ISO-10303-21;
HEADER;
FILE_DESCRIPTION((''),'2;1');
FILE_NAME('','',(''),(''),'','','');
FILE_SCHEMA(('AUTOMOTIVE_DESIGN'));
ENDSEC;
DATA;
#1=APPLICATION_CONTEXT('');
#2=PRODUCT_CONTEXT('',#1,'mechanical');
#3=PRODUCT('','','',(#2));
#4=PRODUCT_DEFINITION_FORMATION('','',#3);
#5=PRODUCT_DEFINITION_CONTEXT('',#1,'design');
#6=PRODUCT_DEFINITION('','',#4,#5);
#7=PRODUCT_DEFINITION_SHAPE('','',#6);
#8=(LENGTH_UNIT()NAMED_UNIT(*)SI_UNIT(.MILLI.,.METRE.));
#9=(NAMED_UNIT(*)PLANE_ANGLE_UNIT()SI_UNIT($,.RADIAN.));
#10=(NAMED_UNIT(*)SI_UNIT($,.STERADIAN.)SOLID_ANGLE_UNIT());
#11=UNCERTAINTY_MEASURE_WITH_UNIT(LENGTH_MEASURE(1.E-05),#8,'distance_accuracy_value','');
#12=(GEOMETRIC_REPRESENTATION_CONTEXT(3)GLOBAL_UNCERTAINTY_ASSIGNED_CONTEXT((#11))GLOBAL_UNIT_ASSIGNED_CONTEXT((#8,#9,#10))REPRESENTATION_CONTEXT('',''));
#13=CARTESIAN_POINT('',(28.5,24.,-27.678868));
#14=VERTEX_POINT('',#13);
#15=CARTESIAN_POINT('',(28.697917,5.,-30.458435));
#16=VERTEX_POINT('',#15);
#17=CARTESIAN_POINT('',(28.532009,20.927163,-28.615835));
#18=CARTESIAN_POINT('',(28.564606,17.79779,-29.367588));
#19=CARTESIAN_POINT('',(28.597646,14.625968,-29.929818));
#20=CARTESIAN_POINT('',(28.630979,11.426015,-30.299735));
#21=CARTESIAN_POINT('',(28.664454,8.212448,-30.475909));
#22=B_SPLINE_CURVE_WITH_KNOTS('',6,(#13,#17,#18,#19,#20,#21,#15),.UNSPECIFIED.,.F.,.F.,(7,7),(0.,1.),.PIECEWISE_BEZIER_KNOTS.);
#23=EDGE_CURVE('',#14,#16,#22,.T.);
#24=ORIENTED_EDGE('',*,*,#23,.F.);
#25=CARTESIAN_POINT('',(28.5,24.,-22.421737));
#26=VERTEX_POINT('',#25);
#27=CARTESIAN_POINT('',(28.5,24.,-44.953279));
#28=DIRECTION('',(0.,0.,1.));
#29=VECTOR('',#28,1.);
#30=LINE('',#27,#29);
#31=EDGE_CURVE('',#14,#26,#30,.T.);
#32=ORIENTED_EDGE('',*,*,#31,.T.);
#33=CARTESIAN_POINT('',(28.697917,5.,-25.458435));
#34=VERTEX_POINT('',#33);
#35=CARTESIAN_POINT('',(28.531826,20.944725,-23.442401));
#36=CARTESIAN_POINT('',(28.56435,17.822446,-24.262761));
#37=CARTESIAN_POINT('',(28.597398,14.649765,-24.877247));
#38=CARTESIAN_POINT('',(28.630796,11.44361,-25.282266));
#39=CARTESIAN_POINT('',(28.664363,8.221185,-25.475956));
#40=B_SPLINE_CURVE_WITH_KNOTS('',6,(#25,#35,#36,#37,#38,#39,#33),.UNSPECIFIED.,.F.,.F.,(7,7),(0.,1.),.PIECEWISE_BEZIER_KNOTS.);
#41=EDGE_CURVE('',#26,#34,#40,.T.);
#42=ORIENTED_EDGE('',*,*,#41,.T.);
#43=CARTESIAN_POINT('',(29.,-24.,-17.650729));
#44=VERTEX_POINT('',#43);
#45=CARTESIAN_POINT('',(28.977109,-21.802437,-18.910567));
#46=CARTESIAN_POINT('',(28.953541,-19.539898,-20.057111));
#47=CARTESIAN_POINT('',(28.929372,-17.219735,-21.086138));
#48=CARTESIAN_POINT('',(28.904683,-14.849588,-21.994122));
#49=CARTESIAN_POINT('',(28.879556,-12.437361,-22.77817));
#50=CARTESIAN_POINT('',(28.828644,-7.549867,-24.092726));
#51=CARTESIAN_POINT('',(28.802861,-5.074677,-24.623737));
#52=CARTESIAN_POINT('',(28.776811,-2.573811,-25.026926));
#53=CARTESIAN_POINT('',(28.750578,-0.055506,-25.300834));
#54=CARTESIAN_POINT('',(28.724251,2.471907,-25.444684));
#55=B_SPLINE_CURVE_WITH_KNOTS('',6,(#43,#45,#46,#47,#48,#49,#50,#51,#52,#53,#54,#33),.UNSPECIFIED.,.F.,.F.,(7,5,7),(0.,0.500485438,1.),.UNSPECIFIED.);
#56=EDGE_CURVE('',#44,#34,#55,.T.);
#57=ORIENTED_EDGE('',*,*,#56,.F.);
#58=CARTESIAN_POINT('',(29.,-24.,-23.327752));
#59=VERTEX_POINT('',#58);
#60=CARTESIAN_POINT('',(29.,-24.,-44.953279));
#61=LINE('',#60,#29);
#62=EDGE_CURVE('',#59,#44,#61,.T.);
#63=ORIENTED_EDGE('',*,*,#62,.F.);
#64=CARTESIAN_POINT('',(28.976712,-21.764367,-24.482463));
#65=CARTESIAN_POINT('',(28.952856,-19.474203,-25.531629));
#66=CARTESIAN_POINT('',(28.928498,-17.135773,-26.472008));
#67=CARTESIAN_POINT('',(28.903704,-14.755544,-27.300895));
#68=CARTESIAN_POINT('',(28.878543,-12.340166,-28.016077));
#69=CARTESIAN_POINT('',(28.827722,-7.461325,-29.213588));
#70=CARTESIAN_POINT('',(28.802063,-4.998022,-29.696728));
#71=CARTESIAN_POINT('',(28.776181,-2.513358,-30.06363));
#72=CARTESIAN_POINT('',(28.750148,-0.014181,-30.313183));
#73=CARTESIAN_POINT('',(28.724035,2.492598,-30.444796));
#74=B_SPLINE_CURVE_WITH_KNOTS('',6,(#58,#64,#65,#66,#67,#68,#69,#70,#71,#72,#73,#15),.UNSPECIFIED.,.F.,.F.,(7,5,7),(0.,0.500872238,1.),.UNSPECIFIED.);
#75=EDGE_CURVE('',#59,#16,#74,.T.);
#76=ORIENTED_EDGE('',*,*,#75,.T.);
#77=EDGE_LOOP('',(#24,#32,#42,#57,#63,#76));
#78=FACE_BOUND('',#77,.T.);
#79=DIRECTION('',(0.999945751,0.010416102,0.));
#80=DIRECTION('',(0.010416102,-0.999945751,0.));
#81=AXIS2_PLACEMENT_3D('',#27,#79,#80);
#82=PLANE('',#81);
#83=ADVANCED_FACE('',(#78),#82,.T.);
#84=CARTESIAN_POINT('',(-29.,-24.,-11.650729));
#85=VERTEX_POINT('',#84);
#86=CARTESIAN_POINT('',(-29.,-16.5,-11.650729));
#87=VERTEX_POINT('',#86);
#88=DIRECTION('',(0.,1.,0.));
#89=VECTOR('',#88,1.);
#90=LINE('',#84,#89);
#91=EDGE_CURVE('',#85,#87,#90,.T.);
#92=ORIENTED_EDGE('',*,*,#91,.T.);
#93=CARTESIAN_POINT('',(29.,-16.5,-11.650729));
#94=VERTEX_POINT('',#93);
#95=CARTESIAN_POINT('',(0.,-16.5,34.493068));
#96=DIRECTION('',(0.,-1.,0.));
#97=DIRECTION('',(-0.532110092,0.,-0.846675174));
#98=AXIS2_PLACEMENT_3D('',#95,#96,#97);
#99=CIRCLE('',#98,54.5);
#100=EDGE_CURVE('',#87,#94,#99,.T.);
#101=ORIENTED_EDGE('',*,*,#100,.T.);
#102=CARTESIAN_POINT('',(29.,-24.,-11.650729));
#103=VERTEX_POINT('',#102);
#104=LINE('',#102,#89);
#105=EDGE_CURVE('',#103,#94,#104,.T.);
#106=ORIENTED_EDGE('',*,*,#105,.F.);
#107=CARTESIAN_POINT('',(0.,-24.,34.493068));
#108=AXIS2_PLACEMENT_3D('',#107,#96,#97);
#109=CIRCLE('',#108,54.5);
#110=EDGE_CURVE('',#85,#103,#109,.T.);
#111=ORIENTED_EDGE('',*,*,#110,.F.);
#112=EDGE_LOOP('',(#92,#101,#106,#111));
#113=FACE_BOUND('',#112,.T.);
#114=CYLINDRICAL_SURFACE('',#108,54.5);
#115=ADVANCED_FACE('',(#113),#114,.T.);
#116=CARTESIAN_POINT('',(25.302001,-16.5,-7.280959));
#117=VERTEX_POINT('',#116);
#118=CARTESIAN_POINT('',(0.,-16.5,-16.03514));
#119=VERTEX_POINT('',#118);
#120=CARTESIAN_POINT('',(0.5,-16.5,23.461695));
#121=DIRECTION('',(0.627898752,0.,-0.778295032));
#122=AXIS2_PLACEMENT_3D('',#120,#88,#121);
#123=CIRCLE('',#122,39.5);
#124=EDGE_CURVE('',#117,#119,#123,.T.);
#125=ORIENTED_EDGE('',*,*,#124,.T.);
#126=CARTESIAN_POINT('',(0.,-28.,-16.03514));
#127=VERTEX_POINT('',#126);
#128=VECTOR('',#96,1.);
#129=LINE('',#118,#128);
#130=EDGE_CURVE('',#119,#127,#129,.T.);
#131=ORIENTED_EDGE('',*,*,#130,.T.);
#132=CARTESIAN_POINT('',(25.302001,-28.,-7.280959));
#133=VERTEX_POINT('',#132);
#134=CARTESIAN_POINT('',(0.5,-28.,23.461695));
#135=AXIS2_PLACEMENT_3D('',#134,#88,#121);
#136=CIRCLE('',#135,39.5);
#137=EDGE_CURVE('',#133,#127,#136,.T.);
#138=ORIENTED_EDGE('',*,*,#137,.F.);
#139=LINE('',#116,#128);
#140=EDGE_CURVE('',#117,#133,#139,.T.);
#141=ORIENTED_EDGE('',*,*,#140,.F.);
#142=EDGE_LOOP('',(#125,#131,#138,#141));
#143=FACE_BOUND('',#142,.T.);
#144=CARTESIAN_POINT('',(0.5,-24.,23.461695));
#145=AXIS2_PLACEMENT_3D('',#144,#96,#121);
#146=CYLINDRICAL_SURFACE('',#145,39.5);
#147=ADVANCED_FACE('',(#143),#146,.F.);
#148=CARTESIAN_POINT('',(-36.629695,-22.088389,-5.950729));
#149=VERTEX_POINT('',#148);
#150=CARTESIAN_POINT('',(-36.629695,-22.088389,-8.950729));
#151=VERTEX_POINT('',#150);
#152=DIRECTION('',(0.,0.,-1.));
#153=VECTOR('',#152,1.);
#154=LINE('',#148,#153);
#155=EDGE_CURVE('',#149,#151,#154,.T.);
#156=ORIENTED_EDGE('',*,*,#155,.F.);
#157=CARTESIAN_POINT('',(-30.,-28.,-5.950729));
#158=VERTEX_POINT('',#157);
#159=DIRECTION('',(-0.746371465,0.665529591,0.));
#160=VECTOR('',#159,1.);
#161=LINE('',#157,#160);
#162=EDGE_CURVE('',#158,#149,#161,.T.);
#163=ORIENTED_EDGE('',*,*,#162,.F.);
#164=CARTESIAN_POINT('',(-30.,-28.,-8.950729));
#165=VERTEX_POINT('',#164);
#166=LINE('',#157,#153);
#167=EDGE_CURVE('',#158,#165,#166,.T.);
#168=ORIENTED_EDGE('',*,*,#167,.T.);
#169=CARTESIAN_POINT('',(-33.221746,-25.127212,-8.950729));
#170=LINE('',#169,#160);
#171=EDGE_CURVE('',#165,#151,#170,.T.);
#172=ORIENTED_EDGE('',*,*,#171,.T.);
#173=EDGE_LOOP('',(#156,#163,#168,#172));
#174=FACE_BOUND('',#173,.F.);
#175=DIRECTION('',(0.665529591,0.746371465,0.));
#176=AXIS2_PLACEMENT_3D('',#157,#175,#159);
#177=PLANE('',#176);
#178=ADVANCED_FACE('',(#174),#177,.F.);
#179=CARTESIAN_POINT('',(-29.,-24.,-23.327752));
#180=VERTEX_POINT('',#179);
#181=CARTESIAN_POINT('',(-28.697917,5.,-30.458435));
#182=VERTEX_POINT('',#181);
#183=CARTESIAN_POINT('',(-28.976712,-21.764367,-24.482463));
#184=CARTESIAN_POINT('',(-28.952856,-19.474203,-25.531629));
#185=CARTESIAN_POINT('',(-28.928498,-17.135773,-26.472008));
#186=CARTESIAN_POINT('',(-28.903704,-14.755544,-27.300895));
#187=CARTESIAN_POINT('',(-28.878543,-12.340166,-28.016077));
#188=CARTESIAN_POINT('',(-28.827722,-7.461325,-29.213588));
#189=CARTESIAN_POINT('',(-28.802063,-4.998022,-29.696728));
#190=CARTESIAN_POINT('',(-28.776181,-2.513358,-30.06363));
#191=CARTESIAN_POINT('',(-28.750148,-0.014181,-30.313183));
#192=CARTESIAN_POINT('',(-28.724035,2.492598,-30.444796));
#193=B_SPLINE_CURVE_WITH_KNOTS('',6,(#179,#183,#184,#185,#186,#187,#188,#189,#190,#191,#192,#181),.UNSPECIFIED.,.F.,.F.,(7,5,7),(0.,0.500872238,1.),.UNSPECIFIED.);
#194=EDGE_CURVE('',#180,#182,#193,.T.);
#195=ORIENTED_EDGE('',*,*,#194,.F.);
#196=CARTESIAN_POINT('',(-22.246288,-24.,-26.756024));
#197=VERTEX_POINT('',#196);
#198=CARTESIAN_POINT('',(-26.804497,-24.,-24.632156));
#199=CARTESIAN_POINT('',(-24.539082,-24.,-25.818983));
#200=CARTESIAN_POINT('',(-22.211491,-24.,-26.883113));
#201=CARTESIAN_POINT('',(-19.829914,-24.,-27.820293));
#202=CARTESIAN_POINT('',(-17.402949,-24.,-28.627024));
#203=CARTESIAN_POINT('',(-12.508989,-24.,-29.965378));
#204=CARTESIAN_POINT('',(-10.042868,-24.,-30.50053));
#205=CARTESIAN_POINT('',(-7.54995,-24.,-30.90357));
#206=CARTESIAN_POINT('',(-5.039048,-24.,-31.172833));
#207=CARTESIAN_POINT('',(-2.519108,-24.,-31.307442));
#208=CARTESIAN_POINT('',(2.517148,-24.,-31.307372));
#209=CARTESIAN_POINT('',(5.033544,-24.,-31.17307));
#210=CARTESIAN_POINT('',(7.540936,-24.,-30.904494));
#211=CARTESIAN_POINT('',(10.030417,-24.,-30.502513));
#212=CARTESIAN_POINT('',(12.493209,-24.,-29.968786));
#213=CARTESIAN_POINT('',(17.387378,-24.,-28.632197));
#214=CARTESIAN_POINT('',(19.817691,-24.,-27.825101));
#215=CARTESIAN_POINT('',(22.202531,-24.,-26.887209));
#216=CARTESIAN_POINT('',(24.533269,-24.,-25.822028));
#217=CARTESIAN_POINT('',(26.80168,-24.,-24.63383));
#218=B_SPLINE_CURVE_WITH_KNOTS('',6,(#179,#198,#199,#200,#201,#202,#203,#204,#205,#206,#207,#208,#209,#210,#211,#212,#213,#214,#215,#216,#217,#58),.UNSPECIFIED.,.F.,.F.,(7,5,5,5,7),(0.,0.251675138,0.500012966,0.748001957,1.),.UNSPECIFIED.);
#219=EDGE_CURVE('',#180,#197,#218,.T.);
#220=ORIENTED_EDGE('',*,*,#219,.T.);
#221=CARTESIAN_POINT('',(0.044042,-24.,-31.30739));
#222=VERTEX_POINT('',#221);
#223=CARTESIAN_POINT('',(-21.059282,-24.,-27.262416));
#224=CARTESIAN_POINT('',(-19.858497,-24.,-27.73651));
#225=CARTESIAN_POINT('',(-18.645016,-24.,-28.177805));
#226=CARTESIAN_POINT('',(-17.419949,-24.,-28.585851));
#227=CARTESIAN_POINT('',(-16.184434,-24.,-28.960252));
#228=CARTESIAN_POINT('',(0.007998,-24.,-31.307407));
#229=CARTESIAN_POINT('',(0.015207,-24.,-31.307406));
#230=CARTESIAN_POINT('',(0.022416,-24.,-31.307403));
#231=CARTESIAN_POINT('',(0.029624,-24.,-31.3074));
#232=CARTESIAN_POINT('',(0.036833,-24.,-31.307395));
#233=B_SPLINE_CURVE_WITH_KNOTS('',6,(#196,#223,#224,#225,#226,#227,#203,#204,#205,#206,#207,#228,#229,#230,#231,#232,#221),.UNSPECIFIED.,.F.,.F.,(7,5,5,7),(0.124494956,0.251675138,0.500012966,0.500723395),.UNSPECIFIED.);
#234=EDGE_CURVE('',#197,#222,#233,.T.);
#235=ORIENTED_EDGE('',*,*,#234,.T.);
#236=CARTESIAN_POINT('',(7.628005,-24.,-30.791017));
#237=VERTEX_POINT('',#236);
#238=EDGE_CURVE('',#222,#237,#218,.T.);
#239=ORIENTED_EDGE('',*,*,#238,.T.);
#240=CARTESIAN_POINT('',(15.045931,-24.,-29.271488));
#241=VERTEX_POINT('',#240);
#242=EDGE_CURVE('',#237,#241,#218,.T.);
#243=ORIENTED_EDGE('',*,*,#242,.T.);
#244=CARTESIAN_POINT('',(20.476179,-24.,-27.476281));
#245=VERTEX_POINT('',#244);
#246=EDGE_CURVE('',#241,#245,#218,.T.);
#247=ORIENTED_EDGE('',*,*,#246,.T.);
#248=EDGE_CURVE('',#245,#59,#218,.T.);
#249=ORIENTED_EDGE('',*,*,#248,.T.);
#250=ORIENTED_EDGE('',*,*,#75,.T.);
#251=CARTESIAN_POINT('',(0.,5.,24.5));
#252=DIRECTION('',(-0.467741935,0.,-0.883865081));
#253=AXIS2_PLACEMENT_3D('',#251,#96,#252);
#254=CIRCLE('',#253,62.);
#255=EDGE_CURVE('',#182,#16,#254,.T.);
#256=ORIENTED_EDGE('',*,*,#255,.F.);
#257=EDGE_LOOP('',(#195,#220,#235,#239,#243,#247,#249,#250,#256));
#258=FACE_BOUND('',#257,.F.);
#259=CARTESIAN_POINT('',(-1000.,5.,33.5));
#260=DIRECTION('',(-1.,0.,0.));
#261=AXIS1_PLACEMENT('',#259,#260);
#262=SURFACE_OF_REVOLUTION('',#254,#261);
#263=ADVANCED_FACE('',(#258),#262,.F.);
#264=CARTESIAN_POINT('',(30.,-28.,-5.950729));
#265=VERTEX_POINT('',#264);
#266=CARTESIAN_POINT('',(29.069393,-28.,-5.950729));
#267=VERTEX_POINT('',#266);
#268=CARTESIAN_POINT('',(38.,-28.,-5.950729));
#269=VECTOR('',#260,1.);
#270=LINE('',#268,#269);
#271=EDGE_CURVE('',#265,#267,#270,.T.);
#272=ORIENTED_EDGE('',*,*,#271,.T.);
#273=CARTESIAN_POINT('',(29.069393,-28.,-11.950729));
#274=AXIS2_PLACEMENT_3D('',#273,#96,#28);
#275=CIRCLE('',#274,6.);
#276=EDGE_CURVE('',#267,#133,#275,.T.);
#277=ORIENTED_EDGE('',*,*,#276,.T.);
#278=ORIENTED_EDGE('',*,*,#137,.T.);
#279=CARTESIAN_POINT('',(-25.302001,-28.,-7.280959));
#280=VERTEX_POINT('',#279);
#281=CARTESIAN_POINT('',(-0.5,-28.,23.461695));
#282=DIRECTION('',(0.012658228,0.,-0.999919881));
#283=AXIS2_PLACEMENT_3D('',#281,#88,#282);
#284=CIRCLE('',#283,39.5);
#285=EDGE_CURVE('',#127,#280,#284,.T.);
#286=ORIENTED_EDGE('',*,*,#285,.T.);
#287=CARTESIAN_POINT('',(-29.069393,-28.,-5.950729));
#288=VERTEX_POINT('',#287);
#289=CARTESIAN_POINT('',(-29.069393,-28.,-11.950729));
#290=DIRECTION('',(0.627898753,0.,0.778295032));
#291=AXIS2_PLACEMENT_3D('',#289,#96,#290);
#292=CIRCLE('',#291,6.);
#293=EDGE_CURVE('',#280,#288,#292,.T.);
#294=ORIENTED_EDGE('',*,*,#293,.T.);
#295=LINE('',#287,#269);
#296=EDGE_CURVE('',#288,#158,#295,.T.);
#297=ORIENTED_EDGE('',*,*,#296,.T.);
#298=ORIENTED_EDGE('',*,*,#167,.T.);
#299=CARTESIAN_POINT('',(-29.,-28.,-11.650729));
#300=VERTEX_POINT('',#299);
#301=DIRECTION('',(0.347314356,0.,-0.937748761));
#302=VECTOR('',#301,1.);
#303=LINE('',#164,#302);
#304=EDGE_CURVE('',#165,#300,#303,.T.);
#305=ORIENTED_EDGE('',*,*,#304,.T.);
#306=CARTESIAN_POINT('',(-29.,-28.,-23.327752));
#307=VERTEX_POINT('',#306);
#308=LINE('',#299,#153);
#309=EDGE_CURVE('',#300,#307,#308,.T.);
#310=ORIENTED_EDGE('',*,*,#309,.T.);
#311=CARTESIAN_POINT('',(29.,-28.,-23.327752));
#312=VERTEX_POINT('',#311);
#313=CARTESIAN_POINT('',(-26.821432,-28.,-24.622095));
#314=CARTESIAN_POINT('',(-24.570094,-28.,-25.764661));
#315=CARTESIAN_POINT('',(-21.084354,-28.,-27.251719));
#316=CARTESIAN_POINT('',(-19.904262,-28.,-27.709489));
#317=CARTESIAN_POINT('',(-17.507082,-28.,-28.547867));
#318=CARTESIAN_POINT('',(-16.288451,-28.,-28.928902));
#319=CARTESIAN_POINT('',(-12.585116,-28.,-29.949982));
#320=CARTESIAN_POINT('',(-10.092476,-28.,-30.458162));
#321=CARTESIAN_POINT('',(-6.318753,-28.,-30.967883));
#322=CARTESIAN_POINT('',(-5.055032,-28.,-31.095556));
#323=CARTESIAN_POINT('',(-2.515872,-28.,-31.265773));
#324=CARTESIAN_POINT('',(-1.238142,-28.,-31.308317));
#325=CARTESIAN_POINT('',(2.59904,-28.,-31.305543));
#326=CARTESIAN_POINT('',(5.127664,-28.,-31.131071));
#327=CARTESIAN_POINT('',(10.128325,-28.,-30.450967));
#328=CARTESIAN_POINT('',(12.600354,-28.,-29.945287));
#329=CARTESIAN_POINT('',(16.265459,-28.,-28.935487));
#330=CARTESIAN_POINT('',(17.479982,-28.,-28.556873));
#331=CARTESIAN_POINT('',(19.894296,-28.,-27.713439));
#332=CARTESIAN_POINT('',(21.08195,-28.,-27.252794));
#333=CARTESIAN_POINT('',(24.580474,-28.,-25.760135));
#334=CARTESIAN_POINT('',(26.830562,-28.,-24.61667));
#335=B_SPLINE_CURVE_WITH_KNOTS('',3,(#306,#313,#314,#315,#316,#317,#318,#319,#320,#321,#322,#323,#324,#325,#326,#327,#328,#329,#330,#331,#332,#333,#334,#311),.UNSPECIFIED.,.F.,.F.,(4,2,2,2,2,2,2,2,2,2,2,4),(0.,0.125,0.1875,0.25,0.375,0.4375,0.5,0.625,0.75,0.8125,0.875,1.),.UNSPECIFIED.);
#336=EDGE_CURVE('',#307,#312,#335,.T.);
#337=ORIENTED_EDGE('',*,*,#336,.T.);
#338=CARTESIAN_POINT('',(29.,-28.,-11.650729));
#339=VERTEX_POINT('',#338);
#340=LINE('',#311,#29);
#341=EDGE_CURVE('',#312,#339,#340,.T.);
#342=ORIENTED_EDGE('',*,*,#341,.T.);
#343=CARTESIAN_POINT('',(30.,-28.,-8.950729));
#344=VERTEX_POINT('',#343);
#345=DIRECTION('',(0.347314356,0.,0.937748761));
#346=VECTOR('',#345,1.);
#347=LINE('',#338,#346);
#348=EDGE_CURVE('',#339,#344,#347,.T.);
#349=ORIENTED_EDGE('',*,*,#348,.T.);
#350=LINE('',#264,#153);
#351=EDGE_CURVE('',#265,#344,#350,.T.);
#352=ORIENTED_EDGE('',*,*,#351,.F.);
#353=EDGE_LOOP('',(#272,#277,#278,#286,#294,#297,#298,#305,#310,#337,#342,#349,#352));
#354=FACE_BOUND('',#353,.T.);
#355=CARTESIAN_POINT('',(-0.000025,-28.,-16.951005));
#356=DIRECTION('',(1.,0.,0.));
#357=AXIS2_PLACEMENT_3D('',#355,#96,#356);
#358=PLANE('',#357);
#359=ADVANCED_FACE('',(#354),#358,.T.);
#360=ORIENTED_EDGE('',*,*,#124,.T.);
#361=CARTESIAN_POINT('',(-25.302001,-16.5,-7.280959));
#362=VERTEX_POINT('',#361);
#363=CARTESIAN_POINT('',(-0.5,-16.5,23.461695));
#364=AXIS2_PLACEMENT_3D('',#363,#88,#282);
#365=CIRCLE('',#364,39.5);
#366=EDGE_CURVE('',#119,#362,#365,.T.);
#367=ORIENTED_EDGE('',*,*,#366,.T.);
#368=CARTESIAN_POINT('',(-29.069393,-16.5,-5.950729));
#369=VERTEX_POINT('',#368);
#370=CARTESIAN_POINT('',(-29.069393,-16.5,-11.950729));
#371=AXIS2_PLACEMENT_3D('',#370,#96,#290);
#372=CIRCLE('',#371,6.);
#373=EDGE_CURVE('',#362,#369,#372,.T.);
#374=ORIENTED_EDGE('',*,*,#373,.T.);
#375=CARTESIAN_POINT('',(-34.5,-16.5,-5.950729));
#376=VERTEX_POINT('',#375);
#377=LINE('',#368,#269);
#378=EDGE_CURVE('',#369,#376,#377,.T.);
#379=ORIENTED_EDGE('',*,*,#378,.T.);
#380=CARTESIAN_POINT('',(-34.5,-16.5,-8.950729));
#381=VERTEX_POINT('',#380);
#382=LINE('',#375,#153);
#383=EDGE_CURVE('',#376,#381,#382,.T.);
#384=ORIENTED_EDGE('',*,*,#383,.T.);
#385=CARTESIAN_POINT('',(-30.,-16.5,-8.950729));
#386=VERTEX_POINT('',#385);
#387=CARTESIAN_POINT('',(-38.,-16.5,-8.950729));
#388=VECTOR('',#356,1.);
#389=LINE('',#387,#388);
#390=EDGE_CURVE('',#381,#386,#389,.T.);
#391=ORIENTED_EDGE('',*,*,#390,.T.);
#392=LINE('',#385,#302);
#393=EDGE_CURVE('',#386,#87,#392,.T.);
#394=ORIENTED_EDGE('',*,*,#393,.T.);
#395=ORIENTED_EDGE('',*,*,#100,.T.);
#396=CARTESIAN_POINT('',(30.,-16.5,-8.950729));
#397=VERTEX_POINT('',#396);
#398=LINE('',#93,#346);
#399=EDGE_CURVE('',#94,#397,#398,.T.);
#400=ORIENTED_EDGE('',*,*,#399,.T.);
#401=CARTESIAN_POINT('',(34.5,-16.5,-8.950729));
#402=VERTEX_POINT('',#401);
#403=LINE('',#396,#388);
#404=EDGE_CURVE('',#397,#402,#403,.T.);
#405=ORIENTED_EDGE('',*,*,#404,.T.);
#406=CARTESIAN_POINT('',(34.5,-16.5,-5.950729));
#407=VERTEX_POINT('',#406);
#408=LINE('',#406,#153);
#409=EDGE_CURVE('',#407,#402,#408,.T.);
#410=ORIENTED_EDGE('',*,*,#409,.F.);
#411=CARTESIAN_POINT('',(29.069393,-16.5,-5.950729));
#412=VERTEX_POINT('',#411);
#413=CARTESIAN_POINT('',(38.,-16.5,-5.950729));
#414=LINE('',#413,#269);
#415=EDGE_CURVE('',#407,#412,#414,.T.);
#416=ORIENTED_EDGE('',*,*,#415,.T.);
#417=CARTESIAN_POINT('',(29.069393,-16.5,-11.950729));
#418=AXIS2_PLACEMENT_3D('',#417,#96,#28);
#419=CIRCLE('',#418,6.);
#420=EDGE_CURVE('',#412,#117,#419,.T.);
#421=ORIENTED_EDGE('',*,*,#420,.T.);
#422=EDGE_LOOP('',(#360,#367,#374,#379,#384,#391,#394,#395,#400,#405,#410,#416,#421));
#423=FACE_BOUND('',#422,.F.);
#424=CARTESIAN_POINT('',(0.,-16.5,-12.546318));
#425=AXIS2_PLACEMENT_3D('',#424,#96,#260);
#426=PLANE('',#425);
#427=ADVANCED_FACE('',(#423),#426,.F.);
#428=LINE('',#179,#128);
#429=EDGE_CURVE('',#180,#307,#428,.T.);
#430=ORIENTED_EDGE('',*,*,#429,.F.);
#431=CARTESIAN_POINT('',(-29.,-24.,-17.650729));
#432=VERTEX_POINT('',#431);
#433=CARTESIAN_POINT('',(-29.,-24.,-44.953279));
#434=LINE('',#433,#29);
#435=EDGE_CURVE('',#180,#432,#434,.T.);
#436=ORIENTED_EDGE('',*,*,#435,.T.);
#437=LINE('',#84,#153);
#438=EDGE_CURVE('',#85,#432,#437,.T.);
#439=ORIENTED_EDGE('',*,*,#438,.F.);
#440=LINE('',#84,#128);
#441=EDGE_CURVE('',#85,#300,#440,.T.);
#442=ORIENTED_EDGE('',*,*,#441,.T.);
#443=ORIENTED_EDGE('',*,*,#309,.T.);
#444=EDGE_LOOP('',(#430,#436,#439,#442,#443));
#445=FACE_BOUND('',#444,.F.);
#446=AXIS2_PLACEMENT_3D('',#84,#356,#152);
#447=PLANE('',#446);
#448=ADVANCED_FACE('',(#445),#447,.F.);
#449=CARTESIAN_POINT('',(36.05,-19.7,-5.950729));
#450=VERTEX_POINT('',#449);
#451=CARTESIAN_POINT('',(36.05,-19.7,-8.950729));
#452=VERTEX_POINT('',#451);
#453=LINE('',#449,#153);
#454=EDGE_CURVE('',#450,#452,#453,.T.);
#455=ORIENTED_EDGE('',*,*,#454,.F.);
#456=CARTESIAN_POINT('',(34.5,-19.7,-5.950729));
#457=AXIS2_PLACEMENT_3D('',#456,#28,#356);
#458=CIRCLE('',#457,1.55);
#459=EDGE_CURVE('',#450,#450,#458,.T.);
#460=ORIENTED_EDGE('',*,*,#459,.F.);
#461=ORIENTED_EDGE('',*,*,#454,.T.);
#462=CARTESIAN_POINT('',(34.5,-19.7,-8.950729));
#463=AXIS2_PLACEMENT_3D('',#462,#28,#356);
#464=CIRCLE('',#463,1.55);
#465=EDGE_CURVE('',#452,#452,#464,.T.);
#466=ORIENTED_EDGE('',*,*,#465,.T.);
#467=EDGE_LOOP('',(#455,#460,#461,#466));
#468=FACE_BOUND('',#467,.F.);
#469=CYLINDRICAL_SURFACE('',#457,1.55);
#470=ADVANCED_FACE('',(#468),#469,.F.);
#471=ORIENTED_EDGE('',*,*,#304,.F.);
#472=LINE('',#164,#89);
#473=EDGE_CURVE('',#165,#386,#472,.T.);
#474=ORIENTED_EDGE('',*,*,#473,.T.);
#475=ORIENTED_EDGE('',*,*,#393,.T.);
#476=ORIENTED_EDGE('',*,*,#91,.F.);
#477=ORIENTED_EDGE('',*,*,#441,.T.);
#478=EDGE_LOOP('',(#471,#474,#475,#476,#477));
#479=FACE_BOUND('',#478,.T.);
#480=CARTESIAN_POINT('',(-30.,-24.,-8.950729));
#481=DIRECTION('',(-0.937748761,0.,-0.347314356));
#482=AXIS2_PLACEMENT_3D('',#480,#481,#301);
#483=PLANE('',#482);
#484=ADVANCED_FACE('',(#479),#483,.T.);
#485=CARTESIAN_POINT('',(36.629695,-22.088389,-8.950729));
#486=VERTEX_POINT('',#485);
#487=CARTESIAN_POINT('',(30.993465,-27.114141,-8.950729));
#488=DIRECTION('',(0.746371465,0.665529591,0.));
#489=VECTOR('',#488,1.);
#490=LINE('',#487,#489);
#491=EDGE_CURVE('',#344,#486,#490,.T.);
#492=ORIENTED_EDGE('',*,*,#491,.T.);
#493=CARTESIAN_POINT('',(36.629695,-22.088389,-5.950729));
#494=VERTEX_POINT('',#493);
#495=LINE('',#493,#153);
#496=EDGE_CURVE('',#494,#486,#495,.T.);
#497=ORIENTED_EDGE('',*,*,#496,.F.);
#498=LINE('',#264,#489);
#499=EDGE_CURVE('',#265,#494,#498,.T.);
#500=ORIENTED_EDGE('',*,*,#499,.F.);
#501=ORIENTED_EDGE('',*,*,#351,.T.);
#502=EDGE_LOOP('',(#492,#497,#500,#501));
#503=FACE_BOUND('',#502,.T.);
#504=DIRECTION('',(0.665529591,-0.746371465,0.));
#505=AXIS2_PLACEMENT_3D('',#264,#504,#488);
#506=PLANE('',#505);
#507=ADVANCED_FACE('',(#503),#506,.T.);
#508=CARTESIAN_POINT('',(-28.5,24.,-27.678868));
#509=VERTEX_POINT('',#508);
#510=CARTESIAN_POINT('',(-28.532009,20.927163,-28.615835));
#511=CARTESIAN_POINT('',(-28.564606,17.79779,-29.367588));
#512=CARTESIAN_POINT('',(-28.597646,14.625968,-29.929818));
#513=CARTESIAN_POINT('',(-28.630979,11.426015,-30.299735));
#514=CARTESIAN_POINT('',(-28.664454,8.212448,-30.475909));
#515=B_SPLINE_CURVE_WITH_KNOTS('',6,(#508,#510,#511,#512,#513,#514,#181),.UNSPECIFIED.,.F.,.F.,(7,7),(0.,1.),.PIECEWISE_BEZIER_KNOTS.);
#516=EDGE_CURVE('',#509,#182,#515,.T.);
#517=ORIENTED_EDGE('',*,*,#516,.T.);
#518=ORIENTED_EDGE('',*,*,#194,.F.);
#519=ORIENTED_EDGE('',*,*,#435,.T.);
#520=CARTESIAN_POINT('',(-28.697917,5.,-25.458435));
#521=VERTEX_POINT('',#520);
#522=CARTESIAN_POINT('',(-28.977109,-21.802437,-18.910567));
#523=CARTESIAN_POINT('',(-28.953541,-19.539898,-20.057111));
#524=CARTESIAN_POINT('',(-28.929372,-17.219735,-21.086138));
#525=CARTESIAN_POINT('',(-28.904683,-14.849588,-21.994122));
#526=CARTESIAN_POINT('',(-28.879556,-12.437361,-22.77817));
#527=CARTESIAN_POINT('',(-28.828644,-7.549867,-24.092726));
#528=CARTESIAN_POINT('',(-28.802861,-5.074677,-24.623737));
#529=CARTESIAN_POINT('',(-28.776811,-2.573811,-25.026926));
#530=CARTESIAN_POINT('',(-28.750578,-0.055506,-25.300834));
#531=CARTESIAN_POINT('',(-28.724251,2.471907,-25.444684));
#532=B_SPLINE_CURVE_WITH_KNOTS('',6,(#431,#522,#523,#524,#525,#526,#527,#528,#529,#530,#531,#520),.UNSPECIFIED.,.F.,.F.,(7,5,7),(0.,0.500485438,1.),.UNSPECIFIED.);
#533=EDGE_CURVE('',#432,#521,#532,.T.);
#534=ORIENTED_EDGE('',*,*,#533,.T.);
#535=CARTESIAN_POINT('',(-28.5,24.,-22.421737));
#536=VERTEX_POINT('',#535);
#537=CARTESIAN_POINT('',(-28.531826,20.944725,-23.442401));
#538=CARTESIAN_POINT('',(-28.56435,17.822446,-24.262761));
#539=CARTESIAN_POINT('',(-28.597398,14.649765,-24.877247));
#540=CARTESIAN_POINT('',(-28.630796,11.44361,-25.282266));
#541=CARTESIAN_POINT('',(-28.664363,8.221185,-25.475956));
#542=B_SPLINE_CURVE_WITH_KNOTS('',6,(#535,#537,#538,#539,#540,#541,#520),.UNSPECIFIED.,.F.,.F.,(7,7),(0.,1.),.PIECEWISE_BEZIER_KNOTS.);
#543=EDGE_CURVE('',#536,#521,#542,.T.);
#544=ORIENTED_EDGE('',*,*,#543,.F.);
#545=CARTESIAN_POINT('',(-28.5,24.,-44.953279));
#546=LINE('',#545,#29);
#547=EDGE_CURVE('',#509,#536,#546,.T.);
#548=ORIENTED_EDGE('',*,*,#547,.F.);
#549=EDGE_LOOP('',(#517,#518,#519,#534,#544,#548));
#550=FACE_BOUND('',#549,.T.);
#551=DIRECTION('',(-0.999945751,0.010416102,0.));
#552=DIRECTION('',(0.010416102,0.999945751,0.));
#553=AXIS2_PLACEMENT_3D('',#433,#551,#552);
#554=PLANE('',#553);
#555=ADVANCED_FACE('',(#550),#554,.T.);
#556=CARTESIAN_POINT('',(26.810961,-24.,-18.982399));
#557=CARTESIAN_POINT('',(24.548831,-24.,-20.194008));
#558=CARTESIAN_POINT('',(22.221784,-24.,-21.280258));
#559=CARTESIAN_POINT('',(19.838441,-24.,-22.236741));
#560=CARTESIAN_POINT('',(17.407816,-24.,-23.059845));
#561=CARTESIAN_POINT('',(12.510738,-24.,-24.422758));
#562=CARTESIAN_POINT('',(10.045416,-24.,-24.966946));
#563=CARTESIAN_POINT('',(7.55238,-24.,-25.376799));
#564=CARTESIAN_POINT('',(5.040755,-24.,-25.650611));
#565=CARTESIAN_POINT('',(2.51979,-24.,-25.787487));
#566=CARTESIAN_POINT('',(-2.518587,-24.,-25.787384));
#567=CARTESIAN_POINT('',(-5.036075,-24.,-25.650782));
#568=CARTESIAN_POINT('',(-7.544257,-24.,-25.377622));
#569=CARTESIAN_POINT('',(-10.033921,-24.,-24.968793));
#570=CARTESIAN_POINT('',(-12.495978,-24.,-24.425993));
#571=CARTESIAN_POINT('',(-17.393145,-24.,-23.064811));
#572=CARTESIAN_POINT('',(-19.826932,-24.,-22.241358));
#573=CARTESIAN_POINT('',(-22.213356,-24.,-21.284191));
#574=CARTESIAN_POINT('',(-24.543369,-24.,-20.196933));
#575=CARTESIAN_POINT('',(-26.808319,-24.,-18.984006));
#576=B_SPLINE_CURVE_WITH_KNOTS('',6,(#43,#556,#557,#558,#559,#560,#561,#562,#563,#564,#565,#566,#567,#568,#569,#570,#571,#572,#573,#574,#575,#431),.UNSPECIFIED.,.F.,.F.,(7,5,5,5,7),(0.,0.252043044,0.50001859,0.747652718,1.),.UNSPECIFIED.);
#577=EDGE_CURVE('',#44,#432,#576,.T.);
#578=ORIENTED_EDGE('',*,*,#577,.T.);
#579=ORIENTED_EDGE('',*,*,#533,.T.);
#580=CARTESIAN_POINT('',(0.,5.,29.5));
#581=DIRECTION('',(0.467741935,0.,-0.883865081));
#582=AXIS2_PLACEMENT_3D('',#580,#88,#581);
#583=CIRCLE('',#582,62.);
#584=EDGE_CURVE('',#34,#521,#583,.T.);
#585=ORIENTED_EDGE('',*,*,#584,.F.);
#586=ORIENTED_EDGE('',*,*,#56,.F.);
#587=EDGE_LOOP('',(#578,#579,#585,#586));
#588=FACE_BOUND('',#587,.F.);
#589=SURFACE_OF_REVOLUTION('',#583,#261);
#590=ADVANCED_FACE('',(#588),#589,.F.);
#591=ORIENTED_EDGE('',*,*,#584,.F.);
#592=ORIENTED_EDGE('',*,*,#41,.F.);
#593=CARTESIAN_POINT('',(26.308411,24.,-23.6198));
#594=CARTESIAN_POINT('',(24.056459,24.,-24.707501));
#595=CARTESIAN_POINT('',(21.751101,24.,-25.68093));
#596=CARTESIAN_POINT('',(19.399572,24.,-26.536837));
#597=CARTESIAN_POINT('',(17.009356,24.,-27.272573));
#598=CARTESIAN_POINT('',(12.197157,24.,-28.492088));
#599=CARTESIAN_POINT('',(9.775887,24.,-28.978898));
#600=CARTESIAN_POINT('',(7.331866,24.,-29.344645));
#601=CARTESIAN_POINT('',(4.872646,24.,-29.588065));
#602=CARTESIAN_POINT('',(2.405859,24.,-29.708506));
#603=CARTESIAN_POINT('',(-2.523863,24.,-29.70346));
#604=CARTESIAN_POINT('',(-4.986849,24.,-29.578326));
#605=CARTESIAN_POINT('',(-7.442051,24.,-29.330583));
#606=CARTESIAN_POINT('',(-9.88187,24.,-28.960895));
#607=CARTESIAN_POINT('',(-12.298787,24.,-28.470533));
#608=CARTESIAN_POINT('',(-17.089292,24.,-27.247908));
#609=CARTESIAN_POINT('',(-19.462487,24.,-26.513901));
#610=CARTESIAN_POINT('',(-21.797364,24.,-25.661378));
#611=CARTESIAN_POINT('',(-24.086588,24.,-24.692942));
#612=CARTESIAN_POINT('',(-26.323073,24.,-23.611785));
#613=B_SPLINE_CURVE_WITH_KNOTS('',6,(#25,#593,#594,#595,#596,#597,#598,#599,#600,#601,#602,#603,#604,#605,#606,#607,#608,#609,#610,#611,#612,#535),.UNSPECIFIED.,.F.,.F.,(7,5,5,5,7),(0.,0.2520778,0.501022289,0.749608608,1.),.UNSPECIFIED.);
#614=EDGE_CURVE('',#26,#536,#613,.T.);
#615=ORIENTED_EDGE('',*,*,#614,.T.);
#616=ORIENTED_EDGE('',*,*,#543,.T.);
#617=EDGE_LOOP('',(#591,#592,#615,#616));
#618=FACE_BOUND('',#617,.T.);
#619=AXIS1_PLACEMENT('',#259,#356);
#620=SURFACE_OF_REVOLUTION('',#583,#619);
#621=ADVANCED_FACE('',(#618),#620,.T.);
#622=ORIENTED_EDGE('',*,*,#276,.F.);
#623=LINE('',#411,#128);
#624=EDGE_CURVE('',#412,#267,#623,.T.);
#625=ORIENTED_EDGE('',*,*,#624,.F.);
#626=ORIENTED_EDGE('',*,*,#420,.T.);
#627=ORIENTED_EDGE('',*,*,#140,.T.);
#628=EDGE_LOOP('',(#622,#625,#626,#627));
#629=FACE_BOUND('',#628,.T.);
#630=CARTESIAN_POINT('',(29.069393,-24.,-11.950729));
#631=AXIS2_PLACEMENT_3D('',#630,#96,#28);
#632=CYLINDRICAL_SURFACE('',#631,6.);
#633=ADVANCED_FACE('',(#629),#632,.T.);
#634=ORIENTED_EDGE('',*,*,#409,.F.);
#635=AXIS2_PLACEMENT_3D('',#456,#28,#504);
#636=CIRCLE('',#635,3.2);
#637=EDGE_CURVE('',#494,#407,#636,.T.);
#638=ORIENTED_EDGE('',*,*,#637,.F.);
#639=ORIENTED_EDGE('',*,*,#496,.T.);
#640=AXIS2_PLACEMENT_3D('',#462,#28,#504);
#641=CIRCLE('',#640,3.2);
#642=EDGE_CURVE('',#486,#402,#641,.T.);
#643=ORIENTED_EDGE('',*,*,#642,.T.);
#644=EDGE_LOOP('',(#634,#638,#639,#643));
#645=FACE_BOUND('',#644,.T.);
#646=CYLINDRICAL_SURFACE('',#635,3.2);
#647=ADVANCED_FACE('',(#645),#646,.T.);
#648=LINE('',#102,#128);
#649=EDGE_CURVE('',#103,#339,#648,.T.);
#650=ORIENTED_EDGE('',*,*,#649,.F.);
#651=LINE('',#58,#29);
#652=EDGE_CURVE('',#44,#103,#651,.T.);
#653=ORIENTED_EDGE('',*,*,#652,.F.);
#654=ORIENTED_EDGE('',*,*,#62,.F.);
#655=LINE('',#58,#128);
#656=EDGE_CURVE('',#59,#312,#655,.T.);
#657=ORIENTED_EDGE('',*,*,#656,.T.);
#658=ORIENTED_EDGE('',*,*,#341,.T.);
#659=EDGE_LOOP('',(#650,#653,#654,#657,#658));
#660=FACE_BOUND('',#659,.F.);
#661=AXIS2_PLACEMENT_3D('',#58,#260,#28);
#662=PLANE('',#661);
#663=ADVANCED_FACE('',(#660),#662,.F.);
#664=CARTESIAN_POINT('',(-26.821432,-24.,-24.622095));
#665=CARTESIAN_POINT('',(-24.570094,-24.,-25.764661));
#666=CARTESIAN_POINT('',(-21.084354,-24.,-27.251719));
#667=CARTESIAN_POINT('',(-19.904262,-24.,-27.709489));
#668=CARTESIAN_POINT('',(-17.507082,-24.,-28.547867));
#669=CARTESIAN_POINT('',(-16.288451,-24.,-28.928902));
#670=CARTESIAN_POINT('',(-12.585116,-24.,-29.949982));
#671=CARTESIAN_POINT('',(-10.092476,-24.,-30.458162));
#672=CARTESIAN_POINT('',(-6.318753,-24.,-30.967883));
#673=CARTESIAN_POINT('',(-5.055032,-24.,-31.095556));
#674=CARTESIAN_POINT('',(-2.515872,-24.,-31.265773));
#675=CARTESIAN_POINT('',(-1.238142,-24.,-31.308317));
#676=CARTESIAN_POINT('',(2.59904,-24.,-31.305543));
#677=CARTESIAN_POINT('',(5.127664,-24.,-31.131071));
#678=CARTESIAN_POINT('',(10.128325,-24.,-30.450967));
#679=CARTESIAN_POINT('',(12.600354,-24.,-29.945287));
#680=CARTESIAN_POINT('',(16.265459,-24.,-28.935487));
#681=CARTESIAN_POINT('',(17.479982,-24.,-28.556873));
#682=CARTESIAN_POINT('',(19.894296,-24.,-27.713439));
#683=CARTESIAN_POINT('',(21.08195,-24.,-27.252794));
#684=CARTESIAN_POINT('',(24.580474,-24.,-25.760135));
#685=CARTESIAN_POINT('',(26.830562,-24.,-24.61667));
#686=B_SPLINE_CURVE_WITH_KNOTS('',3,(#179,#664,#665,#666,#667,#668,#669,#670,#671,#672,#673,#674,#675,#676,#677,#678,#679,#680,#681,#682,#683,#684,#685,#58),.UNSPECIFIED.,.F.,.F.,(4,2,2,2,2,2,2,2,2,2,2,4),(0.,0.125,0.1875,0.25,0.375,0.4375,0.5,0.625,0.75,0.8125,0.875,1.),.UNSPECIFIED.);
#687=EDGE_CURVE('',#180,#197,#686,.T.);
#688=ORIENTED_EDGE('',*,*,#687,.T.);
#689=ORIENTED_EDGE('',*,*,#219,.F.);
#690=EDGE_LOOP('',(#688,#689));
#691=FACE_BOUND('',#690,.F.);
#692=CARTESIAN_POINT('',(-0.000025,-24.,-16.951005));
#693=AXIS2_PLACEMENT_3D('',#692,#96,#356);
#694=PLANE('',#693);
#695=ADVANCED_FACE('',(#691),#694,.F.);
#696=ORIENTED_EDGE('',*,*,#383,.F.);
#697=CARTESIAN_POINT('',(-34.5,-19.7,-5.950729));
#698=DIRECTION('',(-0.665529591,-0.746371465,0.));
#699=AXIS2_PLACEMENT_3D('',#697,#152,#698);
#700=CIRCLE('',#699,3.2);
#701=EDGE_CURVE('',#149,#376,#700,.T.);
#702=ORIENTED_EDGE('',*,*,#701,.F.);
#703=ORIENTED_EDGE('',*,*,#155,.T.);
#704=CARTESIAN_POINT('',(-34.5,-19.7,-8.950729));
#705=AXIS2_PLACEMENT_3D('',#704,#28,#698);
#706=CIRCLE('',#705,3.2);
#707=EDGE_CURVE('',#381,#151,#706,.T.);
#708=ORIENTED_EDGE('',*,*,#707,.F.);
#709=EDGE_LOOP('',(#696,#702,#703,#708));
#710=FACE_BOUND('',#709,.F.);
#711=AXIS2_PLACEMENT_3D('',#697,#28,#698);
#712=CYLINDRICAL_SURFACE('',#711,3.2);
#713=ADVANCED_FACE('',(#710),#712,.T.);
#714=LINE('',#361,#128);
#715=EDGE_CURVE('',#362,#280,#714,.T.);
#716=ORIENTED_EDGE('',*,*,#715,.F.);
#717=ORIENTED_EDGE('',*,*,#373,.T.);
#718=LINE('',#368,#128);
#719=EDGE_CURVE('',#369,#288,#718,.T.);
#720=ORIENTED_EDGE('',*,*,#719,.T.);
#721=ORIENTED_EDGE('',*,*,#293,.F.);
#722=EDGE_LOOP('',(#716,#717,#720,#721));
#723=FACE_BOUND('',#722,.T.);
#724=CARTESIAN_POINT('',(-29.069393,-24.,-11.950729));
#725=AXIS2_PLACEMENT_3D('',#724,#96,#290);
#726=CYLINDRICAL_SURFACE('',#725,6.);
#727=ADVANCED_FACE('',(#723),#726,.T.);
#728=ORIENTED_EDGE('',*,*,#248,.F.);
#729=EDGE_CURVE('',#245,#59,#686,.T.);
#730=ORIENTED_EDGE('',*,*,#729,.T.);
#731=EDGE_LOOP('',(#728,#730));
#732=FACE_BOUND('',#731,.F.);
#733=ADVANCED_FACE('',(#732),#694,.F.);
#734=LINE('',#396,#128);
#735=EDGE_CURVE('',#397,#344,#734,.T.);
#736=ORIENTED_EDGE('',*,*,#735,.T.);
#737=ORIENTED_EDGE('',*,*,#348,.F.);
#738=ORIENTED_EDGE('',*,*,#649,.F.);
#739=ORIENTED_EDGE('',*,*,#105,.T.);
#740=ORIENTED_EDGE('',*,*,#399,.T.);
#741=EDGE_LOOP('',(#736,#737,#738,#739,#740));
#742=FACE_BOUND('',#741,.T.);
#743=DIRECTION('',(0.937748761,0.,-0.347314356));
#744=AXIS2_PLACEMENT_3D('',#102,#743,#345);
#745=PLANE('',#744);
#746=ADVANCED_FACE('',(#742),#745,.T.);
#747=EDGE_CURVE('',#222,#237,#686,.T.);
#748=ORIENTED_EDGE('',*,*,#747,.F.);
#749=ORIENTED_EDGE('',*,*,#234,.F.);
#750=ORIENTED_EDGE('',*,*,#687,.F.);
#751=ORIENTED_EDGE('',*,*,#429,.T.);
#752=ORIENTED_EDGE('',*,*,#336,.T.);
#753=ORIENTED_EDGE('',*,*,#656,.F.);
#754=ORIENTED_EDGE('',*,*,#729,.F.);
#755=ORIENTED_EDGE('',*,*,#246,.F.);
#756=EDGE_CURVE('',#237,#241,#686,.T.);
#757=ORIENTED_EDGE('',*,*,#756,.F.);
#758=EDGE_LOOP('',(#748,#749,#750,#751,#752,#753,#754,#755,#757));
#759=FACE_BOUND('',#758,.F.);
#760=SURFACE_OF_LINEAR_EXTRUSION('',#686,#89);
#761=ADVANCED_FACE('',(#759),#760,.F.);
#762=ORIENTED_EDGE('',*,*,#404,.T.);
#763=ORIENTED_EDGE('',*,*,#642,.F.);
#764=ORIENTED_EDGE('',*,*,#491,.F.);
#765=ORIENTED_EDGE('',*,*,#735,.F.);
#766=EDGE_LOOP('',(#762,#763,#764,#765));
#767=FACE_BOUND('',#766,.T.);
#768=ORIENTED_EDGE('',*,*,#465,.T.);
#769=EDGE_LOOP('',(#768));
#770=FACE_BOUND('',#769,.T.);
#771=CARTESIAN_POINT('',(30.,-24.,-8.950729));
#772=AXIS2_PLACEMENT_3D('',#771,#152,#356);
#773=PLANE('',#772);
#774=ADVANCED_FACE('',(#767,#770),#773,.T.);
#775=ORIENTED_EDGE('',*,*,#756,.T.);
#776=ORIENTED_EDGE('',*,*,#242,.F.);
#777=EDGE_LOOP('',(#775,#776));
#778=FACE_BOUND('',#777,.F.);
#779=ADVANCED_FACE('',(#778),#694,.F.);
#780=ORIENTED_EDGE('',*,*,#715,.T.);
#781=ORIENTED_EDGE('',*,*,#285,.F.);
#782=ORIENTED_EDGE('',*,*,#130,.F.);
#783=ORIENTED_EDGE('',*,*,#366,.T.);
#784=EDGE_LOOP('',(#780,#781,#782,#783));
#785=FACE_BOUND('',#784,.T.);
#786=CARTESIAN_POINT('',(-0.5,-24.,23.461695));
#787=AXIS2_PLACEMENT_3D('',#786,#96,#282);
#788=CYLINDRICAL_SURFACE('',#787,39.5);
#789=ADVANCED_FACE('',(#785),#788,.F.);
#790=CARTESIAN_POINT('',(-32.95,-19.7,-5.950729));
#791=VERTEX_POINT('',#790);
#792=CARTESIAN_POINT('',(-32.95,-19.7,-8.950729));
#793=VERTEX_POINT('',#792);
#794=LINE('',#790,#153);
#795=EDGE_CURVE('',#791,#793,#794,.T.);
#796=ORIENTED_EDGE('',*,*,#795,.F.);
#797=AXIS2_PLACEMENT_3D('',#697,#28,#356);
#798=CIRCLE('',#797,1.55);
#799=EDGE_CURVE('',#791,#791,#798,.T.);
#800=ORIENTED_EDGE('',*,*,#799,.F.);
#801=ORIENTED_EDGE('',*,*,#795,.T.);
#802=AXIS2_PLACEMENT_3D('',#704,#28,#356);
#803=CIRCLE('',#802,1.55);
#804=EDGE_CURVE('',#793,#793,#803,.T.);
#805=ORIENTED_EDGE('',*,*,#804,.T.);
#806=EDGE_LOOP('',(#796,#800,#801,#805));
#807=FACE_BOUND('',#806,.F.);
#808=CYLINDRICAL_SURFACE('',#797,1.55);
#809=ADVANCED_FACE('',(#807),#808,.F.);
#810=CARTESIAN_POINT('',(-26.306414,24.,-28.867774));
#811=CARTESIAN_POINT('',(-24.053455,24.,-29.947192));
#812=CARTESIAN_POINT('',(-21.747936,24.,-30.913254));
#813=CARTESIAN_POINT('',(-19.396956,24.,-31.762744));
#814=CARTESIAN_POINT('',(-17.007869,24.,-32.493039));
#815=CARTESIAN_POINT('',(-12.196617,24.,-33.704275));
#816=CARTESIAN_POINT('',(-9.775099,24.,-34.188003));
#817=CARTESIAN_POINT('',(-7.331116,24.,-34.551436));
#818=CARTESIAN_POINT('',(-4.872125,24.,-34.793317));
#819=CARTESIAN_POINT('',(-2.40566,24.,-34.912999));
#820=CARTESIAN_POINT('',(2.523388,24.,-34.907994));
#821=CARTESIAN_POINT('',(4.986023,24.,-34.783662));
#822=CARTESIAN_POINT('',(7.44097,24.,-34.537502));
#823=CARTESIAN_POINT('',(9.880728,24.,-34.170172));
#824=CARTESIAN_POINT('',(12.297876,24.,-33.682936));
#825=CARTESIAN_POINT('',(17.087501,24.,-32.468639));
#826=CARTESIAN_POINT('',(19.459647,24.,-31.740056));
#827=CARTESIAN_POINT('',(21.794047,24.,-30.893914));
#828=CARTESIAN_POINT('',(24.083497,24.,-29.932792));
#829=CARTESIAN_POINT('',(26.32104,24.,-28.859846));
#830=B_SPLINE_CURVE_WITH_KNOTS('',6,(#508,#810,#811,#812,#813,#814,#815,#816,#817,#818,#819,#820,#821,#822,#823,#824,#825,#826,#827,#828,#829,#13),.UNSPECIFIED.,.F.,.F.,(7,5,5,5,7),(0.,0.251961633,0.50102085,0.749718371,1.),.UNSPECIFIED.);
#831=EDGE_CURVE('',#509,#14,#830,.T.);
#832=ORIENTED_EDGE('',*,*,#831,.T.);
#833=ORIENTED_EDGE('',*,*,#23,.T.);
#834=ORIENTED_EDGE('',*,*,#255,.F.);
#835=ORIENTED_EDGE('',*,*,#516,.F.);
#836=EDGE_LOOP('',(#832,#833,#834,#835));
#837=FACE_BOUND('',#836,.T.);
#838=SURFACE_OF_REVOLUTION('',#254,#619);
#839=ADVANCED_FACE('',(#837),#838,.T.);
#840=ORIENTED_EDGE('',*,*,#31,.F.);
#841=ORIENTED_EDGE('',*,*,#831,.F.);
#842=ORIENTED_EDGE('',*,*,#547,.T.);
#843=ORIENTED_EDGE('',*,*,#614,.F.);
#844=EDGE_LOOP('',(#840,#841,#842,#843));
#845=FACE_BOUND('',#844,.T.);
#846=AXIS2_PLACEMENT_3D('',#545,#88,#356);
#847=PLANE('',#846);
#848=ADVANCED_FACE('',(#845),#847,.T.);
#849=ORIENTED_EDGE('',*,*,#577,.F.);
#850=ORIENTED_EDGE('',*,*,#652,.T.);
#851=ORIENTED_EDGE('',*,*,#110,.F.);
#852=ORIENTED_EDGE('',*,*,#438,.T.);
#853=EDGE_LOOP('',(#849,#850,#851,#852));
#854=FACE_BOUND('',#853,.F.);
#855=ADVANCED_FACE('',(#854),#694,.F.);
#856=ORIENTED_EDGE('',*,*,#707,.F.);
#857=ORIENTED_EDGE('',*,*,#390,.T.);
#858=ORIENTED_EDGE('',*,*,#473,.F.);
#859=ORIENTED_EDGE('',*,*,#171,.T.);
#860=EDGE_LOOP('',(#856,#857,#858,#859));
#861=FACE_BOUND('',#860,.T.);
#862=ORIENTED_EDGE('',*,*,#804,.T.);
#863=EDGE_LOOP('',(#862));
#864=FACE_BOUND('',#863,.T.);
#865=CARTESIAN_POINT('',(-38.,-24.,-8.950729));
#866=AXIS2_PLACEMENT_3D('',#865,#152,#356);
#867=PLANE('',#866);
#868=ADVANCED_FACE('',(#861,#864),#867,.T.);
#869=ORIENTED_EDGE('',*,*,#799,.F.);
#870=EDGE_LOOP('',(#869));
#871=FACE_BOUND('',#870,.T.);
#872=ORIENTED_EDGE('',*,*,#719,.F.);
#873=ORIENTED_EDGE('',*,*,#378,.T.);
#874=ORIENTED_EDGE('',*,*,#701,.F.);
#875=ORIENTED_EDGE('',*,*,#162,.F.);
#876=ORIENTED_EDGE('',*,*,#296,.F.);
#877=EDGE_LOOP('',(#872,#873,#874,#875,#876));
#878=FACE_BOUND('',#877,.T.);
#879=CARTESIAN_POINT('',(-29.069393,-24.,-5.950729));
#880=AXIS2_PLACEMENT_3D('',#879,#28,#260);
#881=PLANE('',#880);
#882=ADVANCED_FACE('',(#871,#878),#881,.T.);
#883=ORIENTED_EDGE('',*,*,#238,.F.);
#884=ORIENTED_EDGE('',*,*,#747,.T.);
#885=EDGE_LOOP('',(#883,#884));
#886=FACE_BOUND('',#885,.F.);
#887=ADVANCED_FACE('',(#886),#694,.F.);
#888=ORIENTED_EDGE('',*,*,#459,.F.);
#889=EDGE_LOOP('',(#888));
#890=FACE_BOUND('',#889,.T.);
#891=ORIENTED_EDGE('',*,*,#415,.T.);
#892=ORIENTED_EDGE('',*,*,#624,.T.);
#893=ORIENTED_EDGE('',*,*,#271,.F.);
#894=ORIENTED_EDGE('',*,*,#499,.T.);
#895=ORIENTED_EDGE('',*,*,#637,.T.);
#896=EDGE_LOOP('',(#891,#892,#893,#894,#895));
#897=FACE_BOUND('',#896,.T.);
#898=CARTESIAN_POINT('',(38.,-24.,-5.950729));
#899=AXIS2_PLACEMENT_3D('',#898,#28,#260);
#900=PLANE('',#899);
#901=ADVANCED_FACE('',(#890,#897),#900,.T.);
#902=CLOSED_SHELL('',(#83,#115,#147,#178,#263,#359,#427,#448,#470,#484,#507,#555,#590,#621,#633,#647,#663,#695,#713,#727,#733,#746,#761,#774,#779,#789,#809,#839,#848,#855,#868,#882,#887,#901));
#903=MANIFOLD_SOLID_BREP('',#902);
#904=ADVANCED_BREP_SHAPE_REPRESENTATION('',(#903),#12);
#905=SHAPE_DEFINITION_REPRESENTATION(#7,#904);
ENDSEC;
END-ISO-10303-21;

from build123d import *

# Parameters (mm, degrees)
REVOLVE4_ANGLE      = 100
SKETCH4_W           = 58
SKETCH4_H           = 44.980583024
CUT_EXTRUDE3_DEPTH  = 78.595827384
BOSS_EXTRUDE1_DEPTH = 4
BOSS_EXTRUDE2_DEPTH = 7.5
CUT_EXTRUDE4_REACH  = 58.775
SKETCH7_R           = 1.55
CUT_EXTRUDE5_REACH  = 58.775


with BuildPart() as part:
    # Sketch15 → Revolve4 (revolve, symmetric)
    with BuildSketch(Plane(origin=(0, 5, 0), x_dir=(1, 0, 0), z_dir=(0, 1, 0))) as revolve4_sk:
        with BuildLine():
            Line((-29, 25.299635035), (-29, 30.299635035))
            ThreePointArc((-29, 30.299635035), (0, 37.5), (29, 30.299635035))
            Line((29, 30.299635035), (29, 25.299635035))
            ThreePointArc((29, 25.299635035), (0, 32.5), (-29, 25.299635035))
        make_face()
    revolve(axis=Axis((-1000, 5, 33.5), (1, 0, 0)), revolution_arc=REVOLVE4_ANGLE / 2)
    revolve(revolve4_sk.sketch, axis=Axis((-1000, 5, 33.5), (-1, 0, 0)), revolution_arc=REVOLVE4_ANGLE / 2)

    # Sketch4 → Cut-Extrude3 (cut, through all)
    with BuildSketch(Plane.XY.offset(-44.953279354)):
        Polygon((-29, 24), (-29, -24), (-28.5, 24), (28.5, 24), (29, -24), (29, 24), (29, 68.980583024), (-29, 68.980583024), align=None)
        with Locations((0, -46.490291512)):
            Rectangle(SKETCH4_W, SKETCH4_H)
    extrude(amount=CUT_EXTRUDE3_DEPTH, mode=Mode.SUBTRACT)

    # Sketch5 → Boss-Extrude1 (add)
    with BuildSketch(Plane.XZ.offset(24)):
        with BuildLine():
            Line((-29, -17.65072903), (-29, -23.327752293))
            add(Edge.make_bspline(
                [(-29, -23.327752293), (-26.821431513, -24.622094951), (-24.570094076, -25.764660778), (-21.084353939, -27.251719124), (-19.904261596, -27.709488716), (-17.50708235, -28.547867009), (-16.288451369, -28.928902372), (-12.585115962, -29.949982234), (-10.092475922, -30.458162245), (-6.318753033, -30.967883479), (-5.055031842, -31.095555565), (-2.515871872, -31.265772539), (-1.238142477, -31.308316997), (2.599039789, -31.305542579), (5.127664186, -31.131070792), (10.128325346, -30.450966671), (12.600354037, -29.945287089), (16.265459061, -28.935487097), (17.479981566, -28.556873367), (19.894295767, -27.713438676), (21.081949842, -27.252793603), (24.580473818, -25.760134814), (26.830562028, -24.616670281), (29, -23.327752293)],
                knots=[0, 0, 0, 0, 0.125, 0.125, 0.1875, 0.1875, 0.25, 0.25, 0.375, 0.375, 0.4375, 0.4375, 0.5, 0.5, 0.625, 0.625, 0.75, 0.75, 0.8125, 0.8125, 0.875, 0.875, 1, 1, 1, 1], degree=3))
            Line((29, -23.327752293), (29, -17.65072903))
            Line((29, -17.65072903), (29, -11.65072903))
            Line((29, -11.65072903), (30, -8.95072903))
            Line((30, -8.95072903), (38, -8.95072903))
            Line((38, -8.95072903), (38, -5.95072903))
            Line((38, -5.95072903), (29.069393239, -5.95072903))
            ThreePointArc((29.069393239, -5.95072903), (27.071722238, -6.293051894), (25.302000724, -7.280958839))
            ThreePointArc((25.302000724, -7.280958839), (13.415329399, -13.867171478), (0, -16.035140397))
            ThreePointArc((0, -16.035140397), (-13.415329399, -13.867171478), (-25.302000724, -7.280958839))
            ThreePointArc((-25.302000724, -7.280958839), (-27.071722238, -6.293051894), (-29.069393239, -5.95072903))
            Line((-29.069393239, -5.95072903), (-38, -5.95072903))
            Line((-38, -5.95072903), (-38, -8.95072903))
            Line((-38, -8.95072903), (-30, -8.95072903))
            Line((-30, -8.95072903), (-29, -11.65072903))
            Line((-29, -11.65072903), (-29, -17.65072903))
        make_face()
    extrude(amount=BOSS_EXTRUDE1_DEPTH)

    # Sketch6 → Boss-Extrude2 (add)
    with BuildSketch(Plane(origin=(0, -24, 0), x_dir=(1, 0, 0), z_dir=(0, 1, 0))):
        with BuildLine():
            ThreePointArc((-29, 11.65072903), (0, 20.006932047), (29, 11.65072903))
            Line((29, 11.65072903), (30, 8.95072903))
            Line((30, 8.95072903), (38, 8.95072903))
            Line((38, 8.95072903), (38, 5.95072903))
            Line((38, 5.95072903), (29.069393239, 5.95072903))
            ThreePointArc((29.069393239, 5.95072903), (27.071722238, 6.293051894), (25.302000724, 7.280958839))
            ThreePointArc((25.302000724, 7.280958839), (13.415329399, 13.867171478), (0, 16.035140397))
            ThreePointArc((0, 16.035140397), (-13.415329399, 13.867171478), (-25.302000724, 7.280958839))
            ThreePointArc((-25.302000724, 7.280958839), (-27.071722238, 6.293051894), (-29.069393239, 5.95072903))
            Line((-29.069393239, 5.95072903), (-38, 5.95072903))
            Line((-38, 5.95072903), (-38, 8.95072903))
            Line((-38, 8.95072903), (-30, 8.95072903))
            Line((-30, 8.95072903), (-29, 11.65072903))
        make_face()
    extrude(amount=BOSS_EXTRUDE2_DEPTH)

    # Sketch7 → Cut-Extrude4 (cut, up to next)
    with BuildSketch(Plane.XY.offset(-5.95072903), mode=Mode.PRIVATE) as cut_extrude4_sk1:
        with Locations((-34.5, -19.7)):
            Circle(SKETCH7_R)
    cut_extrude4_tool1 = extrude(cut_extrude4_sk1.sketch, amount=-CUT_EXTRUDE4_REACH, mode=Mode.PRIVATE) & part.part
    # Sketch7 → Cut-Extrude4 (cut, up to next)
    with BuildSketch(Plane.XY.offset(-5.95072903), mode=Mode.PRIVATE) as cut_extrude4_sk2:
        with Locations((34.5, -19.7)):
            Circle(SKETCH7_R)
    cut_extrude4_tool2 = extrude(cut_extrude4_sk2.sketch, amount=-CUT_EXTRUDE4_REACH, mode=Mode.PRIVATE) & part.part
    add(cut_extrude4_tool1.solids().sort_by_distance((-34.5, -19.7, -5.950729))[0], mode=Mode.SUBTRACT)
    add(cut_extrude4_tool2.solids().sort_by_distance((34.5, -19.7, -5.950729))[0], mode=Mode.SUBTRACT)

    # Sketch8 → Cut-Extrude5 (cut, up to next)
    with BuildSketch(Plane.XY.offset(-5.95072903), mode=Mode.PRIVATE) as cut_extrude5_sk1:
        with BuildLine():
            Line((-30, -28), (-36.629694691, -22.088388688))
            ThreePointArc((-36.629694691, -22.088388688), (-37.490221045, -18.56044829), (-34.5, -16.5))
            Line((-34.5, -16.5), (-38, -16.5))
            Line((-38, -16.5), (-38, -28))
            Line((-38, -28), (-30, -28))
        make_face()
    cut_extrude5_tool1 = extrude(cut_extrude5_sk1.sketch, amount=-CUT_EXTRUDE5_REACH, mode=Mode.PRIVATE) & part.part
    # Sketch8 → Cut-Extrude5 (cut, up to next)
    with BuildSketch(Plane.XY.offset(-5.95072903), mode=Mode.PRIVATE) as cut_extrude5_sk2:
        with BuildLine():
            Line((38, -16.5), (38, -28))
            Line((38, -28), (30, -28))
            Line((30, -28), (36.629694691, -22.088388688))
            ThreePointArc((36.629694691, -22.088388688), (37.490221045, -18.56044829), (34.5, -16.5))
            Line((34.5, -16.5), (38, -16.5))
        make_face()
    cut_extrude5_tool2 = extrude(cut_extrude5_sk2.sketch, amount=-CUT_EXTRUDE5_REACH, mode=Mode.PRIVATE) & part.part
    add(cut_extrude5_tool1.solids().sort_by_distance((-35.568693, -24.725507, -5.950729))[0], mode=Mode.SUBTRACT)
    add(cut_extrude5_tool2.solids().sort_by_distance((35.568693, -24.725507, -5.950729))[0], mode=Mode.SUBTRACT)


solid = part.part
